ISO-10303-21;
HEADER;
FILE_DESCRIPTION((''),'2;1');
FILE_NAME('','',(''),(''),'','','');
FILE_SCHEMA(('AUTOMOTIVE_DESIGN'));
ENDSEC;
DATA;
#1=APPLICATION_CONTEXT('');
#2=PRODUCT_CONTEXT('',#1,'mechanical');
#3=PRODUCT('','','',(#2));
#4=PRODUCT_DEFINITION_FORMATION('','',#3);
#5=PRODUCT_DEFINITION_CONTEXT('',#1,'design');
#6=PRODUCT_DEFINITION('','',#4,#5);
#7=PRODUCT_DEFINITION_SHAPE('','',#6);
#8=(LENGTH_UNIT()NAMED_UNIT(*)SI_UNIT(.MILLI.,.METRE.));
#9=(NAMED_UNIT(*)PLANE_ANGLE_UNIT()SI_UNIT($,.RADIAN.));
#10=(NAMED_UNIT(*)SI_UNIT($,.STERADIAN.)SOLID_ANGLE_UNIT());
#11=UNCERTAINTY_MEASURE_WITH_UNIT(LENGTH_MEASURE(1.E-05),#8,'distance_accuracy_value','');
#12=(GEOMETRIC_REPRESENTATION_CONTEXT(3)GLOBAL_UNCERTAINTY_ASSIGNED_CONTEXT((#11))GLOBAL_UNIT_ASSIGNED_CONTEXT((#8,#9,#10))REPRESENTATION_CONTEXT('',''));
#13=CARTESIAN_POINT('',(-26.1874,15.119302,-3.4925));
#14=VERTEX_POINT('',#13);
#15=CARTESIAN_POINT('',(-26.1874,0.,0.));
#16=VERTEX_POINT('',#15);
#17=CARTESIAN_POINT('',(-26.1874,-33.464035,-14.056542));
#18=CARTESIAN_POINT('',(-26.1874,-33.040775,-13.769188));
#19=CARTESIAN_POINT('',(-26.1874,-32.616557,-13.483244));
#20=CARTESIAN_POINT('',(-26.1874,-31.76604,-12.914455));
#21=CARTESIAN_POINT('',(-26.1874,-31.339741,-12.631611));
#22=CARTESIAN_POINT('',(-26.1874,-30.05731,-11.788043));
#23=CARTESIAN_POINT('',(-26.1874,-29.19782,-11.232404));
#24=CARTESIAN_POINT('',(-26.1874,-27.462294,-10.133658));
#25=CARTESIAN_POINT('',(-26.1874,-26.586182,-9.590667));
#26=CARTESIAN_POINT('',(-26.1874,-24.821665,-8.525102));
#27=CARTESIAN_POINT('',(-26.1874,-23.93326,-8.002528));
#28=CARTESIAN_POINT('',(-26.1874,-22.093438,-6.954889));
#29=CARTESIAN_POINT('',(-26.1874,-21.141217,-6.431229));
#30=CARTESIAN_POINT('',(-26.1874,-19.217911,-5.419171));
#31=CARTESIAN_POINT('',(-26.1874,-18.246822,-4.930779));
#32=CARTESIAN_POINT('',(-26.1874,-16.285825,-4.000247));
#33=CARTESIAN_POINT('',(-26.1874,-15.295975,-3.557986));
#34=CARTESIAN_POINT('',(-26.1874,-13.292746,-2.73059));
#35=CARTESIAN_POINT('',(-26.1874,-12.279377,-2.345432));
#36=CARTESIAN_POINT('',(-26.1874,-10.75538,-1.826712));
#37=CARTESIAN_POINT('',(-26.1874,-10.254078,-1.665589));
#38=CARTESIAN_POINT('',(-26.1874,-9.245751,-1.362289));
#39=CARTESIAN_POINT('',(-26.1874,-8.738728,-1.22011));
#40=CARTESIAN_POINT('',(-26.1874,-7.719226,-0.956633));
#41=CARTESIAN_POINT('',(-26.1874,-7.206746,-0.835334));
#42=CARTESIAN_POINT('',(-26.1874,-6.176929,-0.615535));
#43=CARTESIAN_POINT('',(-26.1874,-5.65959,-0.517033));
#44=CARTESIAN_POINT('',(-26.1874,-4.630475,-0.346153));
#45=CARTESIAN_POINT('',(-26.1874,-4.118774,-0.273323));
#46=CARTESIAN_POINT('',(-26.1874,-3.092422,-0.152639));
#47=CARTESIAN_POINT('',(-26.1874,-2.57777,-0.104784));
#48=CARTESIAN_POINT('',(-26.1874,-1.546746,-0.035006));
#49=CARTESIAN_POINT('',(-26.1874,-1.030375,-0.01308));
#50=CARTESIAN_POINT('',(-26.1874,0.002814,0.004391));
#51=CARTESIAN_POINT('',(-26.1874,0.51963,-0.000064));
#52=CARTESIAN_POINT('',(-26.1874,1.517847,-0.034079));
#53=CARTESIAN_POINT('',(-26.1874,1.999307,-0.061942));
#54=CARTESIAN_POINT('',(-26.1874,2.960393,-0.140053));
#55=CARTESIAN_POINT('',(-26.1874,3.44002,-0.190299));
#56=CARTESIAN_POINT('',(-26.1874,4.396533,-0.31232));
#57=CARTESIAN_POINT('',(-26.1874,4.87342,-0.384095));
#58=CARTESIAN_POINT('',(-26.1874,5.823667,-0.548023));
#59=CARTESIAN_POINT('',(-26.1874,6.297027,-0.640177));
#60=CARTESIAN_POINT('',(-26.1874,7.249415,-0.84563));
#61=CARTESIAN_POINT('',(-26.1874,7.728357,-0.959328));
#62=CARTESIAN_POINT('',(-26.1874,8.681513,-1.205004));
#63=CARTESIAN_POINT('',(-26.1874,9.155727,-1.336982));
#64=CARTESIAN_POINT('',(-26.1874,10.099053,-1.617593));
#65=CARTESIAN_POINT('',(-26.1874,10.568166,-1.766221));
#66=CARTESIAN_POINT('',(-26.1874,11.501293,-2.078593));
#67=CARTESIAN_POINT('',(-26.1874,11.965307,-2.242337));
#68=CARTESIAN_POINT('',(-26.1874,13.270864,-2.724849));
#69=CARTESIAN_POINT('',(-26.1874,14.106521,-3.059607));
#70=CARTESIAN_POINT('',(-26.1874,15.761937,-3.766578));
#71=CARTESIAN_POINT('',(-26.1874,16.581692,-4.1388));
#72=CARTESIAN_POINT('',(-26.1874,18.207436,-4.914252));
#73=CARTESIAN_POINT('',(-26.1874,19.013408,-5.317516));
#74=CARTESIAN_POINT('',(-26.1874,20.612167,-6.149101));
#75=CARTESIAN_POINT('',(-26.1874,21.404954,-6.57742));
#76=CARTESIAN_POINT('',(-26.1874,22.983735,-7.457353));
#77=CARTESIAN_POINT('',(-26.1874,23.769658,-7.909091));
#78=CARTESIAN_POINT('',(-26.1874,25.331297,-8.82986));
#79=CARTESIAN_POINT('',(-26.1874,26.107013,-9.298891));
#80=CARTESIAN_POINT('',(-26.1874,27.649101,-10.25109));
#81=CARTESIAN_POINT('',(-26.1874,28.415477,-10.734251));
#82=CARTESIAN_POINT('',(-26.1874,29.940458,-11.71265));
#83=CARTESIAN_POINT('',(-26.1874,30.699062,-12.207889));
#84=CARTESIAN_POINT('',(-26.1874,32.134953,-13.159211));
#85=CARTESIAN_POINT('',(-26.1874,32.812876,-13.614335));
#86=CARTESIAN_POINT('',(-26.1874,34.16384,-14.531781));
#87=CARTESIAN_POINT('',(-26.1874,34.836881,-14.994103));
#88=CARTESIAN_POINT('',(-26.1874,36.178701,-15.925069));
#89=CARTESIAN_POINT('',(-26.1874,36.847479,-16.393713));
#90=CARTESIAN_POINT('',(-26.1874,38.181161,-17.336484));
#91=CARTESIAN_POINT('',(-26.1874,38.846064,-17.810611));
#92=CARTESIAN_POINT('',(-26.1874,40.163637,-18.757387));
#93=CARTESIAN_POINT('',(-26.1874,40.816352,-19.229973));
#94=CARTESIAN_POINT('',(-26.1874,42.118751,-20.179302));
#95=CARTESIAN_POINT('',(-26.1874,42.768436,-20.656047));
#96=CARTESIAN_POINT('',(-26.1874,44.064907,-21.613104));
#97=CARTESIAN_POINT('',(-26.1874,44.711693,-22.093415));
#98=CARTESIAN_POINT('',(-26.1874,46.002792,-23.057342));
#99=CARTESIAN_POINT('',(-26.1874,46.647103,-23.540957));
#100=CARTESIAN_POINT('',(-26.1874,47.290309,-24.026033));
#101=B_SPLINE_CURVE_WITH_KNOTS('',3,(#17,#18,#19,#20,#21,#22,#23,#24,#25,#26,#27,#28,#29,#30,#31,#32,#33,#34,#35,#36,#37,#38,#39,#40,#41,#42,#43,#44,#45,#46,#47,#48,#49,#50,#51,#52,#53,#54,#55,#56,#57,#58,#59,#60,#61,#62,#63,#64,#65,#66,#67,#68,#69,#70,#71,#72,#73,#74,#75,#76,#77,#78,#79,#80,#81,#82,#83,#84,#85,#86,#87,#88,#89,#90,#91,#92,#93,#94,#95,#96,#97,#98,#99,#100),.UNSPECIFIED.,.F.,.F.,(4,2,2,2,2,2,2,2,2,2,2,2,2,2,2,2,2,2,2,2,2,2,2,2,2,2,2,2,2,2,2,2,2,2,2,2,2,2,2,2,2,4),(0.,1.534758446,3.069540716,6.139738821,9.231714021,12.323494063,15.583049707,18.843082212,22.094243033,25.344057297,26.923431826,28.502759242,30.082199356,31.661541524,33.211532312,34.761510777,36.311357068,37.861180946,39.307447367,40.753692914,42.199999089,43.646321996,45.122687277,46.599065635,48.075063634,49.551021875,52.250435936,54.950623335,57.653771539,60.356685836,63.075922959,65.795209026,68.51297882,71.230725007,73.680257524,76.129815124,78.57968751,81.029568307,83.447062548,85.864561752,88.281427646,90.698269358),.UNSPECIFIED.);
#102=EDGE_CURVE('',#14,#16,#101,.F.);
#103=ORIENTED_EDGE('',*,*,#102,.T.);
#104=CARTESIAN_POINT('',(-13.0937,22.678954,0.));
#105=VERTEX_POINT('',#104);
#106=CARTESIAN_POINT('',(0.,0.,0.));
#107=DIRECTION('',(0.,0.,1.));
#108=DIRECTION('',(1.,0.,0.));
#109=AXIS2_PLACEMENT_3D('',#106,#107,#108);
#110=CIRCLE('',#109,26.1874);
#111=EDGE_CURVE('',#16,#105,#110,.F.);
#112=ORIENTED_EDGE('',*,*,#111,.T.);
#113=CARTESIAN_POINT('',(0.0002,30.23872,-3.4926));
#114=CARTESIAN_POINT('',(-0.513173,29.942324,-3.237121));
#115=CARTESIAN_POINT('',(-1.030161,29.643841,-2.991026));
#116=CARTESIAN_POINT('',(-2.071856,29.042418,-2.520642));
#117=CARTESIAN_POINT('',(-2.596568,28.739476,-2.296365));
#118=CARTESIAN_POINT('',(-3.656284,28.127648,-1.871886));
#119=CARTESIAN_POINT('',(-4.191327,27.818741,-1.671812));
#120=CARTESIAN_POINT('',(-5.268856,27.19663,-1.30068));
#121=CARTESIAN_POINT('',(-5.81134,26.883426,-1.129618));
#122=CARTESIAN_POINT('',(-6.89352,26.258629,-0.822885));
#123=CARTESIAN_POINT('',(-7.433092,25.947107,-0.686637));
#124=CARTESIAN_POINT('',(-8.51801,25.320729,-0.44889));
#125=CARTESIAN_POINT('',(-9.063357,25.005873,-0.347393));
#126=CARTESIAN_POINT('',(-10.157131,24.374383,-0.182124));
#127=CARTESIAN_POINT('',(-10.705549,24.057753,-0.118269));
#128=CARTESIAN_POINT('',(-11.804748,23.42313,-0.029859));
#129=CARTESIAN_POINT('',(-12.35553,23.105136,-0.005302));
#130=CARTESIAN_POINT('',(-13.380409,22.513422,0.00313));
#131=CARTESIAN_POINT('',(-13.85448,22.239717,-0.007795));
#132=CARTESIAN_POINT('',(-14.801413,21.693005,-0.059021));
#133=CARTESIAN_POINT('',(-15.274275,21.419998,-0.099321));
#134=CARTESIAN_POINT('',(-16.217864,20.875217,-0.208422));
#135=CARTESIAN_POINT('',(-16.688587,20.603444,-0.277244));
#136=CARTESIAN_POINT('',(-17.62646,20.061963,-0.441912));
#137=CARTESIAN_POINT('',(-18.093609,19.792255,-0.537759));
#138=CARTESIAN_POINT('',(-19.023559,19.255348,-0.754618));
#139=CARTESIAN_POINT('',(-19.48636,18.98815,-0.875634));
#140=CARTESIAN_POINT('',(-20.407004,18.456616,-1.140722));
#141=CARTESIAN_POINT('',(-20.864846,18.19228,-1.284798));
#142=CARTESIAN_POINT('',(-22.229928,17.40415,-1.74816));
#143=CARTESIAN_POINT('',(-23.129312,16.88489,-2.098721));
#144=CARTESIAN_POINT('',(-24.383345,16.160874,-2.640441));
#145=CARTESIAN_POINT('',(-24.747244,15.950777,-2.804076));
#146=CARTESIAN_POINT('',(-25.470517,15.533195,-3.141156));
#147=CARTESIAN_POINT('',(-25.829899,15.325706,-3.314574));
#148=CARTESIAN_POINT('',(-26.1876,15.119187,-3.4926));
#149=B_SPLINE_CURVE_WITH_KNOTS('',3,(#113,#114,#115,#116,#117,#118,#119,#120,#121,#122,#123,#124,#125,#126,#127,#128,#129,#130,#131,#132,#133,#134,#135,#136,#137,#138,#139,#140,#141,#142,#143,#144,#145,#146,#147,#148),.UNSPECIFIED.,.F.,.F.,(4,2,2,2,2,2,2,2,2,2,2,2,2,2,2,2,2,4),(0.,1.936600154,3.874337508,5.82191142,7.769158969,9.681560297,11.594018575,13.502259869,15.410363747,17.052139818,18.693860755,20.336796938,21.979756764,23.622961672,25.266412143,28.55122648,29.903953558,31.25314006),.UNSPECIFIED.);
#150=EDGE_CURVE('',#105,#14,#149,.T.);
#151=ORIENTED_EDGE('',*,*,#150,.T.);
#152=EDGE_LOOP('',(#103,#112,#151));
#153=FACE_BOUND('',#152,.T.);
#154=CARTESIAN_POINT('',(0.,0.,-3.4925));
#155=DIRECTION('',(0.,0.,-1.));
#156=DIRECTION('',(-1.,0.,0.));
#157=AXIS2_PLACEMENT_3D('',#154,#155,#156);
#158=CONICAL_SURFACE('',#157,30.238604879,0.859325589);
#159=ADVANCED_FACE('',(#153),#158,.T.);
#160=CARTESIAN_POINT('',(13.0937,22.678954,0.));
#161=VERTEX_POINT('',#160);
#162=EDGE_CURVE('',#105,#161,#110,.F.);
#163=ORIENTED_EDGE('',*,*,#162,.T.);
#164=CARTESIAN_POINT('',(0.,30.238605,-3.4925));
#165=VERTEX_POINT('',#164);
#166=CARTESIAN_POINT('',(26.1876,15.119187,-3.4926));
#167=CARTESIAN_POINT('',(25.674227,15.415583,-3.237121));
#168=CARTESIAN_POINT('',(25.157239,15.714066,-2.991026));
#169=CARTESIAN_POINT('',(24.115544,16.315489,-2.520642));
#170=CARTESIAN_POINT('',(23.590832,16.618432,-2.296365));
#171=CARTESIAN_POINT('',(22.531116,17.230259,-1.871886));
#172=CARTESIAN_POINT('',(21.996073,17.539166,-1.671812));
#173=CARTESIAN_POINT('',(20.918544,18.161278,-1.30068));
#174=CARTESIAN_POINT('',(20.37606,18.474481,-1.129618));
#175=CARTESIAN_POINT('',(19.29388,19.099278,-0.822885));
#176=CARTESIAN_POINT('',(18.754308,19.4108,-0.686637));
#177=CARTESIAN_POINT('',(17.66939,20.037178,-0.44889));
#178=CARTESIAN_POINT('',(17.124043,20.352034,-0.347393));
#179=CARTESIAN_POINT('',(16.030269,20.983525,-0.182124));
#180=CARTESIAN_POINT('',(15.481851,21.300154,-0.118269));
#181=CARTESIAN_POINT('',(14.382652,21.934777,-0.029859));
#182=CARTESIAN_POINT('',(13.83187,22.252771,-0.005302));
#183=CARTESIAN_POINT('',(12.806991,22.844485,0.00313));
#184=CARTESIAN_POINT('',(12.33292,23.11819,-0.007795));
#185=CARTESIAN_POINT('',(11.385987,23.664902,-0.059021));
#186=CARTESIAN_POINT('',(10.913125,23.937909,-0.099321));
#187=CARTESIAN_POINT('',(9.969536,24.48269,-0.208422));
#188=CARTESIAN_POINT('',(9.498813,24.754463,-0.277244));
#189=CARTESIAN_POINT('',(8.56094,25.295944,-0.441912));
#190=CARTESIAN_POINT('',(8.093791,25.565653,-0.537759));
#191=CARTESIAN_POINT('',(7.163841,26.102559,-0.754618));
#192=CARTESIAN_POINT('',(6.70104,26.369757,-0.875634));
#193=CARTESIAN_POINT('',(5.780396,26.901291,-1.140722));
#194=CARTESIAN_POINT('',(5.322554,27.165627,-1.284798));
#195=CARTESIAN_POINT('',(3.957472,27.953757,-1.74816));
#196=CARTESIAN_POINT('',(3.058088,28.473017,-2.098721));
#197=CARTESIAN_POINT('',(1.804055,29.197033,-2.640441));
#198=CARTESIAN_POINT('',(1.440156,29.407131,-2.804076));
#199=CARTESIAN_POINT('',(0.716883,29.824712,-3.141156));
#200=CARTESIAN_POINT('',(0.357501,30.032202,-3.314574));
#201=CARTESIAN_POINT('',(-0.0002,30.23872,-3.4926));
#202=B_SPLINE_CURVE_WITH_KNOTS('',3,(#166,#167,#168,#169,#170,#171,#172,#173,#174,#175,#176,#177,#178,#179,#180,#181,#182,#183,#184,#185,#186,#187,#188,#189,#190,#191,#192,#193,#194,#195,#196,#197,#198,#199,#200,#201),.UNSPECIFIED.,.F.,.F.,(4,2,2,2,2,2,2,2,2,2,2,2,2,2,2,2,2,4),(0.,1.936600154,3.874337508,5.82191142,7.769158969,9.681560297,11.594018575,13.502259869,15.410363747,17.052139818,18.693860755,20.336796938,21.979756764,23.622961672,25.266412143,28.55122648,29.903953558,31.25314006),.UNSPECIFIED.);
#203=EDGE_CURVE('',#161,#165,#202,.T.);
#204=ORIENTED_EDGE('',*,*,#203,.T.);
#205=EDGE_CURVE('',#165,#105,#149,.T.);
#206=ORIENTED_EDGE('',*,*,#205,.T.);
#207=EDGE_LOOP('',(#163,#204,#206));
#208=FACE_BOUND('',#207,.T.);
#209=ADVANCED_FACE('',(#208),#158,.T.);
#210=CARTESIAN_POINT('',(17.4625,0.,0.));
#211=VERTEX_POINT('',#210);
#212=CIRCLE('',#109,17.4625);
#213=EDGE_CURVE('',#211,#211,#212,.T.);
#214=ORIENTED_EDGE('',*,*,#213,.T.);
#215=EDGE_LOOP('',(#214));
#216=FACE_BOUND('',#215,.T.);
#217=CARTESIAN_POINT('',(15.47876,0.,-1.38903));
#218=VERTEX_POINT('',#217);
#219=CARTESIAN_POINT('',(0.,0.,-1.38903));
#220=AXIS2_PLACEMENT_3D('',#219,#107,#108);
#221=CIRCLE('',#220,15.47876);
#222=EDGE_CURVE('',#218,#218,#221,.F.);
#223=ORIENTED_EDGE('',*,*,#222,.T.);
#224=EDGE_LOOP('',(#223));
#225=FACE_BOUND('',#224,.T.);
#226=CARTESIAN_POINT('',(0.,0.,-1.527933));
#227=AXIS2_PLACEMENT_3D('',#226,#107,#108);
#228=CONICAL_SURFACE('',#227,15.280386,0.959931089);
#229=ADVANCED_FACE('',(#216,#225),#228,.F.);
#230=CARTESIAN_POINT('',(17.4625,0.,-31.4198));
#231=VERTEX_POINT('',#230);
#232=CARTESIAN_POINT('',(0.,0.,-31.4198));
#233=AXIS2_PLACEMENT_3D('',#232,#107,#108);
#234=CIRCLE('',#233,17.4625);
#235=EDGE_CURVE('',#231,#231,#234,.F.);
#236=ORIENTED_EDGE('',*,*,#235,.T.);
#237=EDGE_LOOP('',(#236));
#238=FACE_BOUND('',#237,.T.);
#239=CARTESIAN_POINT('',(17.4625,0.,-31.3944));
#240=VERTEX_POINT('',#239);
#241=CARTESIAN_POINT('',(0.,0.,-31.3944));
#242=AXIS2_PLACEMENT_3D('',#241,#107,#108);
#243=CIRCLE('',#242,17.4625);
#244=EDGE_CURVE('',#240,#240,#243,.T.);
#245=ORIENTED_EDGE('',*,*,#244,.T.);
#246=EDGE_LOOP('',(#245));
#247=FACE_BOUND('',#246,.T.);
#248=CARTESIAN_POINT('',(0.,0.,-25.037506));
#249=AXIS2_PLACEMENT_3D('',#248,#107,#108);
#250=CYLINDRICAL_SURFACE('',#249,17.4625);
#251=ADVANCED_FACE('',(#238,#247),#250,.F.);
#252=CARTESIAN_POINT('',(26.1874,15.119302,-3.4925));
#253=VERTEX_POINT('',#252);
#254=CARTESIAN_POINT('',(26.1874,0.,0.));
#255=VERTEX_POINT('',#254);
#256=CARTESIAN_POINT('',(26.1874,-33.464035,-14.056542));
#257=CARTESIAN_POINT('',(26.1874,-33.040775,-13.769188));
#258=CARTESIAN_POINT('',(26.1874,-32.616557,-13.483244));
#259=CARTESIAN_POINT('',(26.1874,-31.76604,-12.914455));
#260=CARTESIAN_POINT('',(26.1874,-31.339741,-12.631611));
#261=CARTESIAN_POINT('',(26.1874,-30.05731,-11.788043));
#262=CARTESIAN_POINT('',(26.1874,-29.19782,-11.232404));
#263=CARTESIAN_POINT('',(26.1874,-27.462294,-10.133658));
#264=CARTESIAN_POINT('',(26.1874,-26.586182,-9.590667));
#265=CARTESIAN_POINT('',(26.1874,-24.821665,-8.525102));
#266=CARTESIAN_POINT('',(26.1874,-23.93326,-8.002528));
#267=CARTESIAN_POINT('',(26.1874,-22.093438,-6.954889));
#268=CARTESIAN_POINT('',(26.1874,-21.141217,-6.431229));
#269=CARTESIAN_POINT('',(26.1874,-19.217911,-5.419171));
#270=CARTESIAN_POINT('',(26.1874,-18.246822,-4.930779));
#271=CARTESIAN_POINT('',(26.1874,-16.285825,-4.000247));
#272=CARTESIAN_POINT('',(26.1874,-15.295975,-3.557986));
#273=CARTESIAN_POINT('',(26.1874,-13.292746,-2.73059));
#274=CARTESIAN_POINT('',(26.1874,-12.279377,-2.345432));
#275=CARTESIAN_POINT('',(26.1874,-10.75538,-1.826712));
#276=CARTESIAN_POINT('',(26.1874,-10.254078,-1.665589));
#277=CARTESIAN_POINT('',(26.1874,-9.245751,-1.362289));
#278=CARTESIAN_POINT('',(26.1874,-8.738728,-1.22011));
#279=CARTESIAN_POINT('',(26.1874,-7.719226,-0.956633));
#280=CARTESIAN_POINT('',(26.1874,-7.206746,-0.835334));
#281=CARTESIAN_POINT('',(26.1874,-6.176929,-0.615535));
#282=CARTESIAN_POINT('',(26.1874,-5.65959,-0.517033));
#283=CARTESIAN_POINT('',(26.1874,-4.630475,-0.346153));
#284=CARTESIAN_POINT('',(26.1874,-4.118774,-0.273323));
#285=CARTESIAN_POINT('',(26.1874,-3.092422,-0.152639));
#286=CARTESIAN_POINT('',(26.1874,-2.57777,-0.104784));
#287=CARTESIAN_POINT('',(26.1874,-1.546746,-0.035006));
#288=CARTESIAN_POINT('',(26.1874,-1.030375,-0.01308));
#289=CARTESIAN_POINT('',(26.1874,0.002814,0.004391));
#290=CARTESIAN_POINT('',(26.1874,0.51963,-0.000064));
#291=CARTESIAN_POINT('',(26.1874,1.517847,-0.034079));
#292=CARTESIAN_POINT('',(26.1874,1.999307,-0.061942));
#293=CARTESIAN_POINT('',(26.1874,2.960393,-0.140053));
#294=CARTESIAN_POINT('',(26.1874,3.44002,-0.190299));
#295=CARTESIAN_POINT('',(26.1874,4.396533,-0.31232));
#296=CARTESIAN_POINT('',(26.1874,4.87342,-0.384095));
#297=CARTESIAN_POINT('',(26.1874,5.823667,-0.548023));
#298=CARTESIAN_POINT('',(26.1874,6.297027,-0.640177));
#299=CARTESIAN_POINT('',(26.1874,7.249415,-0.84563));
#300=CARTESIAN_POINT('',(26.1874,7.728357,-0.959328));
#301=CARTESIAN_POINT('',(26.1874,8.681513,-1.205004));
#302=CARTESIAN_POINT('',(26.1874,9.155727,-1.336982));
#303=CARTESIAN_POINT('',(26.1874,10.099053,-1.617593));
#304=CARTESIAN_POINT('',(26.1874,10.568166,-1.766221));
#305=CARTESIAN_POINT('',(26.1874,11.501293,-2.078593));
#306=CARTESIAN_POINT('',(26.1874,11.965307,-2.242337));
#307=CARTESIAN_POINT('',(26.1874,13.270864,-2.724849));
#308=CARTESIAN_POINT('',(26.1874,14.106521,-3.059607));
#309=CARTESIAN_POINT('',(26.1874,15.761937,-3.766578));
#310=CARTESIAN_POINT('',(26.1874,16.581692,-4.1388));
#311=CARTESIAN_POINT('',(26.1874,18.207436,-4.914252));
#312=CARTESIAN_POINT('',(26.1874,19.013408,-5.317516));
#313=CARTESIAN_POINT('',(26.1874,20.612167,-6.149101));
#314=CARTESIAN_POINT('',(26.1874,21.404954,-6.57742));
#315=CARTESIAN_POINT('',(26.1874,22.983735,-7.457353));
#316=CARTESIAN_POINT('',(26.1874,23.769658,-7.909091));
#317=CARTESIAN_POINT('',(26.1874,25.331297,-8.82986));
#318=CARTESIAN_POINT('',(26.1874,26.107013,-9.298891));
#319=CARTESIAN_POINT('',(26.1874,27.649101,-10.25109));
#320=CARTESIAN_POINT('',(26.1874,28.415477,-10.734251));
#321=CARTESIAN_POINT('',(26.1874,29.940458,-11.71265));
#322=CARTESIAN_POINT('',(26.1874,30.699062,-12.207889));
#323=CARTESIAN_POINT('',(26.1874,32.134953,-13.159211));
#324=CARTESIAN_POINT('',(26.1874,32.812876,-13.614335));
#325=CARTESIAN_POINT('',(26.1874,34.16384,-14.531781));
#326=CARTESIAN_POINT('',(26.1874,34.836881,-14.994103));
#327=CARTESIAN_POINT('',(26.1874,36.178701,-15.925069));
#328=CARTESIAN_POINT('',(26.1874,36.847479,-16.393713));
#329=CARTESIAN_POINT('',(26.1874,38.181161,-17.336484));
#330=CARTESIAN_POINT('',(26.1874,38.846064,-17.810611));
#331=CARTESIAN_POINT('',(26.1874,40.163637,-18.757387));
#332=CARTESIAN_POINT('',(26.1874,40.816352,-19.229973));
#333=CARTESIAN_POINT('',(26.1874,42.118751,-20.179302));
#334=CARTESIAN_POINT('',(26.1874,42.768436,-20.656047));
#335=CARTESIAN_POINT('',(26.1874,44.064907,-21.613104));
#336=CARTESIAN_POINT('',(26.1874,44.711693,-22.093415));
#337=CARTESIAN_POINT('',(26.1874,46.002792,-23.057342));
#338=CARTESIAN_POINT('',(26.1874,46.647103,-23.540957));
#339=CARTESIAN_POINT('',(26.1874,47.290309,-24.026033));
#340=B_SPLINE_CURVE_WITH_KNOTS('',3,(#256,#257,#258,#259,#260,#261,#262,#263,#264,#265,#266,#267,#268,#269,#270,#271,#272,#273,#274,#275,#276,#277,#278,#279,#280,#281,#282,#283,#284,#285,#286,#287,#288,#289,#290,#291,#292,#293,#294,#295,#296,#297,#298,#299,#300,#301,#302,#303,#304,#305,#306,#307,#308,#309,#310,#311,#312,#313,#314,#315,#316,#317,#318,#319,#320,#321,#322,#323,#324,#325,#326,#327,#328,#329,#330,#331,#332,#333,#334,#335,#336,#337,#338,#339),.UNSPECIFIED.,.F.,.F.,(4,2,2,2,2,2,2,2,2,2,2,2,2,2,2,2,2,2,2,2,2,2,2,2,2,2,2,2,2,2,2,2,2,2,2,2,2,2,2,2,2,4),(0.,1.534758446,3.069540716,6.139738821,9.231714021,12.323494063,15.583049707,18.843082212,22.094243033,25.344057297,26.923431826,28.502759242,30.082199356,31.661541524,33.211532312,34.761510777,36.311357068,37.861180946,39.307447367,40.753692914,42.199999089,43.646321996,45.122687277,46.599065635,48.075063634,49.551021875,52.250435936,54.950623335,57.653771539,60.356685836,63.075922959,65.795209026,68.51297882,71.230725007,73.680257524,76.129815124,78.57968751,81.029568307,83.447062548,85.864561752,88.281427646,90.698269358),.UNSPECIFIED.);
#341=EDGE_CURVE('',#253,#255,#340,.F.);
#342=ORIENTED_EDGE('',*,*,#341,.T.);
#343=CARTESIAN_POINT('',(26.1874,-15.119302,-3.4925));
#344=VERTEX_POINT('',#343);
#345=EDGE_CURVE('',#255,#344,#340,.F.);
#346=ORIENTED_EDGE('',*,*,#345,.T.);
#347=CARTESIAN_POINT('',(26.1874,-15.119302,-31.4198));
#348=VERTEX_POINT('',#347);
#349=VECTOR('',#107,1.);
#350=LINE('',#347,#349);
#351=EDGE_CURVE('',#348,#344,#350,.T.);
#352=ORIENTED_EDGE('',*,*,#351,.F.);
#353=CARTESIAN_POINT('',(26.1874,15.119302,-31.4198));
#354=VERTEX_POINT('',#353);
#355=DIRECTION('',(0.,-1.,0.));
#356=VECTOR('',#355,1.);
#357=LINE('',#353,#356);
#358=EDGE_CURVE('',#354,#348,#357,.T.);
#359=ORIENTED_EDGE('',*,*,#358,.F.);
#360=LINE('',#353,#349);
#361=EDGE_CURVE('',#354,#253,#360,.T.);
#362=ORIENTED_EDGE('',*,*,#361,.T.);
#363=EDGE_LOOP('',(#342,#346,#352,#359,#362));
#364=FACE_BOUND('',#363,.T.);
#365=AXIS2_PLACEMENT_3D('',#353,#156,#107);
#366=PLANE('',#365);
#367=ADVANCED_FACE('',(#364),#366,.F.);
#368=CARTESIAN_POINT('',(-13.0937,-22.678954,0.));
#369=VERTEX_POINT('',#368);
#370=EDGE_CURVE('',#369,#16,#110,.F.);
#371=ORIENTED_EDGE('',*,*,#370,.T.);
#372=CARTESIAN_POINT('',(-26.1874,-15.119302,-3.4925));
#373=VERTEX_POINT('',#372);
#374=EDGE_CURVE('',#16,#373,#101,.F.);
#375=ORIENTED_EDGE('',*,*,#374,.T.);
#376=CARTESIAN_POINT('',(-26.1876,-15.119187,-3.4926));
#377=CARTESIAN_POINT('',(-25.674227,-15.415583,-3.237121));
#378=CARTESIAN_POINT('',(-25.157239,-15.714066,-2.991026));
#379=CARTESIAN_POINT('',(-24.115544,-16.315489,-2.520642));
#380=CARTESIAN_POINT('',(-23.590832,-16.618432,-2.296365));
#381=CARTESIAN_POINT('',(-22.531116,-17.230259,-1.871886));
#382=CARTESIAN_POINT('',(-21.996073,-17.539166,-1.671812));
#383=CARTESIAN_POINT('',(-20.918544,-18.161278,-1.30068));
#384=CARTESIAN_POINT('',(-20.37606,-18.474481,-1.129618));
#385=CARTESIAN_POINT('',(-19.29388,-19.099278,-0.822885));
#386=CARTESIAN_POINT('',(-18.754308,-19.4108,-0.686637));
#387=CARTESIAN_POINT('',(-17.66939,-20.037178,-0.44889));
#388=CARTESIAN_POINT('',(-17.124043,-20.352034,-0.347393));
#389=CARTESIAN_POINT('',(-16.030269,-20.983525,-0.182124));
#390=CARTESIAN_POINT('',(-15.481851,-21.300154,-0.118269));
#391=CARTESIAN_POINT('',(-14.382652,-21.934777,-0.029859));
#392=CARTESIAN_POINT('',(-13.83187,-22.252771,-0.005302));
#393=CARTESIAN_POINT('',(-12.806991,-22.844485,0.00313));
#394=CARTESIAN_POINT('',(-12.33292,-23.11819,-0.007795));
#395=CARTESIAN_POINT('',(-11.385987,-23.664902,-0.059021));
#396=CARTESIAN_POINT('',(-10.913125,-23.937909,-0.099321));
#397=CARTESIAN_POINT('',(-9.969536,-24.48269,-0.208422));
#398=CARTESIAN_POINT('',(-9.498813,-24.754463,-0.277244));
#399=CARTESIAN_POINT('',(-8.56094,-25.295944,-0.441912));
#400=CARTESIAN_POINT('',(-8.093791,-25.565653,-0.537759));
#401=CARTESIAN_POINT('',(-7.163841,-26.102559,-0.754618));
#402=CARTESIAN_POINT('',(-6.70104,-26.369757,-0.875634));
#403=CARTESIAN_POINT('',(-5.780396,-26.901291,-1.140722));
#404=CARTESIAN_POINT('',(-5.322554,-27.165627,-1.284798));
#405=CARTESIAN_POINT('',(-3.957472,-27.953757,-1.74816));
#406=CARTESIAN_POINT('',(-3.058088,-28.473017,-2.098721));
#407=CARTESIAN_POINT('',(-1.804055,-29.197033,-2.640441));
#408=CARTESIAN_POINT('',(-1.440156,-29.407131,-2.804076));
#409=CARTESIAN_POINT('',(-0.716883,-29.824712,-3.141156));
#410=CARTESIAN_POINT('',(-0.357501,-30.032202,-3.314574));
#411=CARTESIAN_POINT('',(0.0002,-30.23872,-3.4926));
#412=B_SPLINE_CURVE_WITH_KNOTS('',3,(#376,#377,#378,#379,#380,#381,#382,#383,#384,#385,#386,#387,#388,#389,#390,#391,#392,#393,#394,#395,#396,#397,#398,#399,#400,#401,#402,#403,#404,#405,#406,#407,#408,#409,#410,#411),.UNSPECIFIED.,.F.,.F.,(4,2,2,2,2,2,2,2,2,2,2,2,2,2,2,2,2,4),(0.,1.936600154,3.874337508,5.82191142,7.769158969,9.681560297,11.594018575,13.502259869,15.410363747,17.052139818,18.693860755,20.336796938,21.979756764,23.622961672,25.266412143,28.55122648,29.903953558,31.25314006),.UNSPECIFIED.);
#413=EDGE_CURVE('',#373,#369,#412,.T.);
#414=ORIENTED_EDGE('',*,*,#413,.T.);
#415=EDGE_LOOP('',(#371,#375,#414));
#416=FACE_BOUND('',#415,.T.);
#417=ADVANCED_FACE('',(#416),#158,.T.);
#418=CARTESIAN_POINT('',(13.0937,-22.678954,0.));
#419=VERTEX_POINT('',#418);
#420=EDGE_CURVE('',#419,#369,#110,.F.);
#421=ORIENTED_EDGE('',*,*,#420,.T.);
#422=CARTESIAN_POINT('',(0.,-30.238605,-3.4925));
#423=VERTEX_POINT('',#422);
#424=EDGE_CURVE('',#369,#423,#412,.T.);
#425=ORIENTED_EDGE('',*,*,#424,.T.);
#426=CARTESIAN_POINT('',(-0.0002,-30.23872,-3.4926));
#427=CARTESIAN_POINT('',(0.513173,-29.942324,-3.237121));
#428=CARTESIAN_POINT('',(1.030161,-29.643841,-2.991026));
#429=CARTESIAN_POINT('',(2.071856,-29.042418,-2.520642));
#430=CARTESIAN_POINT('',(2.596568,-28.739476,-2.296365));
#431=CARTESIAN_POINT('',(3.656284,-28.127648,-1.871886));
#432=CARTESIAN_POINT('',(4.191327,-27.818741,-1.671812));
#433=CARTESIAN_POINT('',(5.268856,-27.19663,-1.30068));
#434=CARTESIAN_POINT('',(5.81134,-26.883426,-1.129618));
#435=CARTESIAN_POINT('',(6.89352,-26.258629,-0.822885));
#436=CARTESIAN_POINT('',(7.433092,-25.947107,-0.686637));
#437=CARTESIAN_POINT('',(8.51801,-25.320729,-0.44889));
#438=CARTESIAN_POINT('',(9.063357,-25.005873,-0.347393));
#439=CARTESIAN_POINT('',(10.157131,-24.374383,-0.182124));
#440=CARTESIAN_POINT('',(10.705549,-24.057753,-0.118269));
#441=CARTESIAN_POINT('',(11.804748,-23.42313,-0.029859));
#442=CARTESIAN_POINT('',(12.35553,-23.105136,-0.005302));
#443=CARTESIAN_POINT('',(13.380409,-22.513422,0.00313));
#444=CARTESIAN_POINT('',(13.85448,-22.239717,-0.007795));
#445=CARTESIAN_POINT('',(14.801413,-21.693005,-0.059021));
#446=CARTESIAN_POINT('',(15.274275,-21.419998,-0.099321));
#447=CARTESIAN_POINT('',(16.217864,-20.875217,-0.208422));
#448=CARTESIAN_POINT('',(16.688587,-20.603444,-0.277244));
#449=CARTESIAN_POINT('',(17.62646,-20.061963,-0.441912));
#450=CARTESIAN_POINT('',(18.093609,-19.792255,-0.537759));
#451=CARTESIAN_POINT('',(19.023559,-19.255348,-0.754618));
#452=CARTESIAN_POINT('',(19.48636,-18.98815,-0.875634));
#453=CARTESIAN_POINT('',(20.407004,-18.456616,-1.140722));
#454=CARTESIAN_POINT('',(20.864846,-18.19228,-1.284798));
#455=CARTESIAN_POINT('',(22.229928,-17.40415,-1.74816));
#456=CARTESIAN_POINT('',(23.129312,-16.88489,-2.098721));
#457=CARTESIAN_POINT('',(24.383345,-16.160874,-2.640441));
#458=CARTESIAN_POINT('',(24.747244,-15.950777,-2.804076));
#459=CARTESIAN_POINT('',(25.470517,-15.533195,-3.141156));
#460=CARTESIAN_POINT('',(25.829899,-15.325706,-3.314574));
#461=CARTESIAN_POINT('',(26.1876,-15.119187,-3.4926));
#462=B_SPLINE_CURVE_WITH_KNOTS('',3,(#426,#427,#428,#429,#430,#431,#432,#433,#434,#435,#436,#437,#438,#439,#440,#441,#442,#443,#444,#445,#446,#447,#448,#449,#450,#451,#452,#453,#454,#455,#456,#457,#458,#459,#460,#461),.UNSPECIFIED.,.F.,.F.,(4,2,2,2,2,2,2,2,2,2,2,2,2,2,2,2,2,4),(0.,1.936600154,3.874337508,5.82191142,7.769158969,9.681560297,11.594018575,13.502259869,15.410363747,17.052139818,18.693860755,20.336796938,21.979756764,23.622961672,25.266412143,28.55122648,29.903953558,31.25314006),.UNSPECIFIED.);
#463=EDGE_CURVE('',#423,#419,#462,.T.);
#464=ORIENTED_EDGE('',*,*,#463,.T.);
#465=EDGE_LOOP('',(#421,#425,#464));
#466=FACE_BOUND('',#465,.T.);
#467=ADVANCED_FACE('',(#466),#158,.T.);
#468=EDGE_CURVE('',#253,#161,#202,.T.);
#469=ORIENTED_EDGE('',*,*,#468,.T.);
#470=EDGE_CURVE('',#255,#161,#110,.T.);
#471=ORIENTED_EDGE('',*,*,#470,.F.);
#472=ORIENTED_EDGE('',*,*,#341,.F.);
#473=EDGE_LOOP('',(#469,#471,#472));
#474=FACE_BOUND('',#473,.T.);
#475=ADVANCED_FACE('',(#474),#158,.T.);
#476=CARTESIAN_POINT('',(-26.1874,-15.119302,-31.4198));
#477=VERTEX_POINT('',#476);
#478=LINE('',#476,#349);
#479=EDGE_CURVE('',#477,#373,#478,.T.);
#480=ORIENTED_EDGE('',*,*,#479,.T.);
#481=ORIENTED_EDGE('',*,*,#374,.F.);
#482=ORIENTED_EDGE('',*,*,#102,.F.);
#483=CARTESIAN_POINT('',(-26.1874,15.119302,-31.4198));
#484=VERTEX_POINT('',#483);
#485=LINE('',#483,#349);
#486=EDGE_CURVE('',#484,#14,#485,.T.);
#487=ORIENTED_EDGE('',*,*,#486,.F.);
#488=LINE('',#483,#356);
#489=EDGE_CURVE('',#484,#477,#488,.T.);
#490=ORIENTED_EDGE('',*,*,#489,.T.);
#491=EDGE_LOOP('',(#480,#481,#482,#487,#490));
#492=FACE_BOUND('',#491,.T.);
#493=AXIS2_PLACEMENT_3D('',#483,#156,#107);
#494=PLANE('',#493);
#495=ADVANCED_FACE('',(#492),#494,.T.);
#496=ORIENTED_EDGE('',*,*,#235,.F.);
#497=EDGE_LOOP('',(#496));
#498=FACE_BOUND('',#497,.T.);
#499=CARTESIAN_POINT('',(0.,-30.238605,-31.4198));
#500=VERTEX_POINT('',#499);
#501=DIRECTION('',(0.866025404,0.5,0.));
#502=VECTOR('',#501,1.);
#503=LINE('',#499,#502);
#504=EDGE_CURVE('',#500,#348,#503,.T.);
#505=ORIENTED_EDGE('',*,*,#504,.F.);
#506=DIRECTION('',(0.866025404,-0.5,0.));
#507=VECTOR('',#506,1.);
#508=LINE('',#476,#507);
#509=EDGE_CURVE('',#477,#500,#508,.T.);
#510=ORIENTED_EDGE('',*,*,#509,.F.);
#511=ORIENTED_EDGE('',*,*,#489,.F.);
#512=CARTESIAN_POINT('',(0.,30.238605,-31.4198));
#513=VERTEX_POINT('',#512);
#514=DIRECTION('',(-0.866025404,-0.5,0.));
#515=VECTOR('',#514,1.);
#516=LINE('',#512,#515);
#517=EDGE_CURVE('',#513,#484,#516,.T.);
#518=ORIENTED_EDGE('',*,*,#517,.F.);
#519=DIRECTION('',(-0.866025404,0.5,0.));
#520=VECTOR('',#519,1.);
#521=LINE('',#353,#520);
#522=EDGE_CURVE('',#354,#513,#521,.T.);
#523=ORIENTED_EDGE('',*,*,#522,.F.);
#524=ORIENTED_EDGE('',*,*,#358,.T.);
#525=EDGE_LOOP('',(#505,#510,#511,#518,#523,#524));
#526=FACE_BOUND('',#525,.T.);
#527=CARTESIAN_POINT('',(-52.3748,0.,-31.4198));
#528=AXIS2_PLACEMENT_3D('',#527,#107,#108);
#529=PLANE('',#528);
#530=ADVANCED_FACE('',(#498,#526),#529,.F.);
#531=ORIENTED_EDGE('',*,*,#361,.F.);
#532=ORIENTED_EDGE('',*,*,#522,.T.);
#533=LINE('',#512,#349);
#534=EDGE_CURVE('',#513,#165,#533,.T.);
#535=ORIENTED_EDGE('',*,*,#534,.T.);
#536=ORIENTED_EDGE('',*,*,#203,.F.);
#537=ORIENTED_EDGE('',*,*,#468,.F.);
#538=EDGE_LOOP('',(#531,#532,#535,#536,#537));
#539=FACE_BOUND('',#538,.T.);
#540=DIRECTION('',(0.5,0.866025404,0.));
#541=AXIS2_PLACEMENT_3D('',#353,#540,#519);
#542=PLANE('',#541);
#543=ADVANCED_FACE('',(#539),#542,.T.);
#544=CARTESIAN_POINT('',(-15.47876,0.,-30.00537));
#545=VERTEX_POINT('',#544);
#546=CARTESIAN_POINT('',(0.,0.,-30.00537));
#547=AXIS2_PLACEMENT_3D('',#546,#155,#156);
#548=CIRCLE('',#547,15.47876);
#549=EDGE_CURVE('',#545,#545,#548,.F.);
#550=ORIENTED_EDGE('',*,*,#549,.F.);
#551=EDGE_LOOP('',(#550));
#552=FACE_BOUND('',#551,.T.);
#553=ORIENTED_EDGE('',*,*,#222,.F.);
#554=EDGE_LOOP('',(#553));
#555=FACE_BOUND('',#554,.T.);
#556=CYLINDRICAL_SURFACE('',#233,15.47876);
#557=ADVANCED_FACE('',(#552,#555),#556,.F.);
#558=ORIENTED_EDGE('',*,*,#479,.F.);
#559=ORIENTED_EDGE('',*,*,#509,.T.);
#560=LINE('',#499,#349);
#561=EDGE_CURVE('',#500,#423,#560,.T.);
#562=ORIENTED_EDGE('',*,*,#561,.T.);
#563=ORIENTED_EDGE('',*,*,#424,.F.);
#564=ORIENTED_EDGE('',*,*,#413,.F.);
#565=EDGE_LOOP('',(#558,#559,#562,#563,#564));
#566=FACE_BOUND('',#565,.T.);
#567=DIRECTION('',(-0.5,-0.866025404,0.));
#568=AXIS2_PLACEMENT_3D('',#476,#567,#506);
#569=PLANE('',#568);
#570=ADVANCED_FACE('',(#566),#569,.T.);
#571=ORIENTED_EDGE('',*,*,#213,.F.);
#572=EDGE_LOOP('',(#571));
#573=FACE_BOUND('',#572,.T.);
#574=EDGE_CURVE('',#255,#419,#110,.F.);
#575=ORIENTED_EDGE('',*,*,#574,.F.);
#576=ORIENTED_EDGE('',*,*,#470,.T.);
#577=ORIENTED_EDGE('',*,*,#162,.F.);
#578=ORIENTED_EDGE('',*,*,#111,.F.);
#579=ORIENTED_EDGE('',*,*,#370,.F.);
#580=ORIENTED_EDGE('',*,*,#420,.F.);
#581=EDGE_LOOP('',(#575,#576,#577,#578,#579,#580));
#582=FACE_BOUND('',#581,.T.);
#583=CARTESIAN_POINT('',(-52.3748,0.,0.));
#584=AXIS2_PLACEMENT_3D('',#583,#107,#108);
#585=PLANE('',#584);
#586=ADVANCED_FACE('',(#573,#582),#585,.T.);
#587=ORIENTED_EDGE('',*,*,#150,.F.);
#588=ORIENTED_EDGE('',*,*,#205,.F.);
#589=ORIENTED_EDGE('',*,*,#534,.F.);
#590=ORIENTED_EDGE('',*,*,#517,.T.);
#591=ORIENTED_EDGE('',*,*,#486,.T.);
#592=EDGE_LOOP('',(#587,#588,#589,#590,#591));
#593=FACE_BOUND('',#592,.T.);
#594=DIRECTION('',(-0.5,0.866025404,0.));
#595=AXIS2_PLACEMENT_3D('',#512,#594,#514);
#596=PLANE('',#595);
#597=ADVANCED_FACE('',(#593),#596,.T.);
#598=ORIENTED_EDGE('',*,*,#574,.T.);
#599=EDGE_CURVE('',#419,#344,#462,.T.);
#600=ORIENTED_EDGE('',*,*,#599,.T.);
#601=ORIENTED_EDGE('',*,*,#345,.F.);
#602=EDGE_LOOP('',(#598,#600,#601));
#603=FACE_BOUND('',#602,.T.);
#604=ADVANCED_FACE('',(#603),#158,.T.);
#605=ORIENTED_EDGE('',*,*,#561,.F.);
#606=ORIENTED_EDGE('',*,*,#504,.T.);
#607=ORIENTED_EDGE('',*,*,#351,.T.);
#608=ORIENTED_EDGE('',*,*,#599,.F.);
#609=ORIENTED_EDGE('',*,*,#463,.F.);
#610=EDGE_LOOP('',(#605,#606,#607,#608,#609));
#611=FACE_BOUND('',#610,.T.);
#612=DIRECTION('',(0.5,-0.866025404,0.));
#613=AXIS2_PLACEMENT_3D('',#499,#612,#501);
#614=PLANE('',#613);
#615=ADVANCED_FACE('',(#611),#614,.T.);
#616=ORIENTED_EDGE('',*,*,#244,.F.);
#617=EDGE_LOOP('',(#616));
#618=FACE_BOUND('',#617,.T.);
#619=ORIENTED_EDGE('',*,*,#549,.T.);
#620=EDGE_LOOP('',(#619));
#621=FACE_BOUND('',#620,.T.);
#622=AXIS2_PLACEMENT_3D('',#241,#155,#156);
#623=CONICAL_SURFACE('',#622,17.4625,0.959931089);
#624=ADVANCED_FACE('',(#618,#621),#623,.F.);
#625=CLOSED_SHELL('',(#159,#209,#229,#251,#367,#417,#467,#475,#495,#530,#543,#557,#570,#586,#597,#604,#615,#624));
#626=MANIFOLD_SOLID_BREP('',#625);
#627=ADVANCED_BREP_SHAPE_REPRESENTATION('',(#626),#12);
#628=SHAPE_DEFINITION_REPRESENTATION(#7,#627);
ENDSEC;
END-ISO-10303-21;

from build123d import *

# Parameters (mm, degrees)
BASENUT_START = -31.4198
BASENUTSKE_R  = 15.47876
BASENUT_DEPTH = 31.4198


with BuildPart() as part:
    # BaseNutSke → BaseNut (new body)
    with BuildSketch(Plane.XY.offset(BASENUT_START)):
        Polygon((26.1874, 15.119302439), (26.1874, -15.119302439), (0, -30.238604879), (-26.1874, -15.119302439), (-26.1874, 15.119302439), (0, 30.238604879), align=None)
        Circle(BASENUTSKE_R, mode=Mode.SUBTRACT)
    extrude(amount=BASENUT_DEPTH)

    # Sketch2 → Single-Chamfer (revolve, cut)
    with BuildSketch(Plane(origin=(0, 0, 0), x_dir=(0, 0, -1), z_dir=(1, 0, 0))):
        Polygon((0, 26.1874), (-12.7, 26.1874), (-12.7, 42.938604879), (3.4925, 42.938604879), (3.4925, 30.238604879), align=None)
    revolve(axis=Axis((0, 0, 0), (0, 0, -1)), mode=Mode.SUBTRACT)

    # EndChamferSketch → EndChamfer (revolve, cut)
    with BuildSketch(Plane(origin=(0, 0, 0), x_dir=(0, 0, -1), z_dir=(1, 0, 0)), mode=Mode.PRIVATE) as endchamfer_sk:
        Polygon((31.3944, 17.4625), (29.866467328, 15.280386), (31.4452, 15.280386), (31.4452, 17.4625), align=None)
        Polygon((-0.0508, 17.4625), (0, 17.4625), (1.527932672, 15.280386), (-0.0508, 15.280386), align=None)
    revolve(endchamfer_sk.sketch.rotate(Axis((0, 0, -25.037505729), (0, 0, -1)), 90), axis=Axis((0, 0, -25.037505729), (0, 0, -1)), mode=Mode.SUBTRACT)


solid = part.part
